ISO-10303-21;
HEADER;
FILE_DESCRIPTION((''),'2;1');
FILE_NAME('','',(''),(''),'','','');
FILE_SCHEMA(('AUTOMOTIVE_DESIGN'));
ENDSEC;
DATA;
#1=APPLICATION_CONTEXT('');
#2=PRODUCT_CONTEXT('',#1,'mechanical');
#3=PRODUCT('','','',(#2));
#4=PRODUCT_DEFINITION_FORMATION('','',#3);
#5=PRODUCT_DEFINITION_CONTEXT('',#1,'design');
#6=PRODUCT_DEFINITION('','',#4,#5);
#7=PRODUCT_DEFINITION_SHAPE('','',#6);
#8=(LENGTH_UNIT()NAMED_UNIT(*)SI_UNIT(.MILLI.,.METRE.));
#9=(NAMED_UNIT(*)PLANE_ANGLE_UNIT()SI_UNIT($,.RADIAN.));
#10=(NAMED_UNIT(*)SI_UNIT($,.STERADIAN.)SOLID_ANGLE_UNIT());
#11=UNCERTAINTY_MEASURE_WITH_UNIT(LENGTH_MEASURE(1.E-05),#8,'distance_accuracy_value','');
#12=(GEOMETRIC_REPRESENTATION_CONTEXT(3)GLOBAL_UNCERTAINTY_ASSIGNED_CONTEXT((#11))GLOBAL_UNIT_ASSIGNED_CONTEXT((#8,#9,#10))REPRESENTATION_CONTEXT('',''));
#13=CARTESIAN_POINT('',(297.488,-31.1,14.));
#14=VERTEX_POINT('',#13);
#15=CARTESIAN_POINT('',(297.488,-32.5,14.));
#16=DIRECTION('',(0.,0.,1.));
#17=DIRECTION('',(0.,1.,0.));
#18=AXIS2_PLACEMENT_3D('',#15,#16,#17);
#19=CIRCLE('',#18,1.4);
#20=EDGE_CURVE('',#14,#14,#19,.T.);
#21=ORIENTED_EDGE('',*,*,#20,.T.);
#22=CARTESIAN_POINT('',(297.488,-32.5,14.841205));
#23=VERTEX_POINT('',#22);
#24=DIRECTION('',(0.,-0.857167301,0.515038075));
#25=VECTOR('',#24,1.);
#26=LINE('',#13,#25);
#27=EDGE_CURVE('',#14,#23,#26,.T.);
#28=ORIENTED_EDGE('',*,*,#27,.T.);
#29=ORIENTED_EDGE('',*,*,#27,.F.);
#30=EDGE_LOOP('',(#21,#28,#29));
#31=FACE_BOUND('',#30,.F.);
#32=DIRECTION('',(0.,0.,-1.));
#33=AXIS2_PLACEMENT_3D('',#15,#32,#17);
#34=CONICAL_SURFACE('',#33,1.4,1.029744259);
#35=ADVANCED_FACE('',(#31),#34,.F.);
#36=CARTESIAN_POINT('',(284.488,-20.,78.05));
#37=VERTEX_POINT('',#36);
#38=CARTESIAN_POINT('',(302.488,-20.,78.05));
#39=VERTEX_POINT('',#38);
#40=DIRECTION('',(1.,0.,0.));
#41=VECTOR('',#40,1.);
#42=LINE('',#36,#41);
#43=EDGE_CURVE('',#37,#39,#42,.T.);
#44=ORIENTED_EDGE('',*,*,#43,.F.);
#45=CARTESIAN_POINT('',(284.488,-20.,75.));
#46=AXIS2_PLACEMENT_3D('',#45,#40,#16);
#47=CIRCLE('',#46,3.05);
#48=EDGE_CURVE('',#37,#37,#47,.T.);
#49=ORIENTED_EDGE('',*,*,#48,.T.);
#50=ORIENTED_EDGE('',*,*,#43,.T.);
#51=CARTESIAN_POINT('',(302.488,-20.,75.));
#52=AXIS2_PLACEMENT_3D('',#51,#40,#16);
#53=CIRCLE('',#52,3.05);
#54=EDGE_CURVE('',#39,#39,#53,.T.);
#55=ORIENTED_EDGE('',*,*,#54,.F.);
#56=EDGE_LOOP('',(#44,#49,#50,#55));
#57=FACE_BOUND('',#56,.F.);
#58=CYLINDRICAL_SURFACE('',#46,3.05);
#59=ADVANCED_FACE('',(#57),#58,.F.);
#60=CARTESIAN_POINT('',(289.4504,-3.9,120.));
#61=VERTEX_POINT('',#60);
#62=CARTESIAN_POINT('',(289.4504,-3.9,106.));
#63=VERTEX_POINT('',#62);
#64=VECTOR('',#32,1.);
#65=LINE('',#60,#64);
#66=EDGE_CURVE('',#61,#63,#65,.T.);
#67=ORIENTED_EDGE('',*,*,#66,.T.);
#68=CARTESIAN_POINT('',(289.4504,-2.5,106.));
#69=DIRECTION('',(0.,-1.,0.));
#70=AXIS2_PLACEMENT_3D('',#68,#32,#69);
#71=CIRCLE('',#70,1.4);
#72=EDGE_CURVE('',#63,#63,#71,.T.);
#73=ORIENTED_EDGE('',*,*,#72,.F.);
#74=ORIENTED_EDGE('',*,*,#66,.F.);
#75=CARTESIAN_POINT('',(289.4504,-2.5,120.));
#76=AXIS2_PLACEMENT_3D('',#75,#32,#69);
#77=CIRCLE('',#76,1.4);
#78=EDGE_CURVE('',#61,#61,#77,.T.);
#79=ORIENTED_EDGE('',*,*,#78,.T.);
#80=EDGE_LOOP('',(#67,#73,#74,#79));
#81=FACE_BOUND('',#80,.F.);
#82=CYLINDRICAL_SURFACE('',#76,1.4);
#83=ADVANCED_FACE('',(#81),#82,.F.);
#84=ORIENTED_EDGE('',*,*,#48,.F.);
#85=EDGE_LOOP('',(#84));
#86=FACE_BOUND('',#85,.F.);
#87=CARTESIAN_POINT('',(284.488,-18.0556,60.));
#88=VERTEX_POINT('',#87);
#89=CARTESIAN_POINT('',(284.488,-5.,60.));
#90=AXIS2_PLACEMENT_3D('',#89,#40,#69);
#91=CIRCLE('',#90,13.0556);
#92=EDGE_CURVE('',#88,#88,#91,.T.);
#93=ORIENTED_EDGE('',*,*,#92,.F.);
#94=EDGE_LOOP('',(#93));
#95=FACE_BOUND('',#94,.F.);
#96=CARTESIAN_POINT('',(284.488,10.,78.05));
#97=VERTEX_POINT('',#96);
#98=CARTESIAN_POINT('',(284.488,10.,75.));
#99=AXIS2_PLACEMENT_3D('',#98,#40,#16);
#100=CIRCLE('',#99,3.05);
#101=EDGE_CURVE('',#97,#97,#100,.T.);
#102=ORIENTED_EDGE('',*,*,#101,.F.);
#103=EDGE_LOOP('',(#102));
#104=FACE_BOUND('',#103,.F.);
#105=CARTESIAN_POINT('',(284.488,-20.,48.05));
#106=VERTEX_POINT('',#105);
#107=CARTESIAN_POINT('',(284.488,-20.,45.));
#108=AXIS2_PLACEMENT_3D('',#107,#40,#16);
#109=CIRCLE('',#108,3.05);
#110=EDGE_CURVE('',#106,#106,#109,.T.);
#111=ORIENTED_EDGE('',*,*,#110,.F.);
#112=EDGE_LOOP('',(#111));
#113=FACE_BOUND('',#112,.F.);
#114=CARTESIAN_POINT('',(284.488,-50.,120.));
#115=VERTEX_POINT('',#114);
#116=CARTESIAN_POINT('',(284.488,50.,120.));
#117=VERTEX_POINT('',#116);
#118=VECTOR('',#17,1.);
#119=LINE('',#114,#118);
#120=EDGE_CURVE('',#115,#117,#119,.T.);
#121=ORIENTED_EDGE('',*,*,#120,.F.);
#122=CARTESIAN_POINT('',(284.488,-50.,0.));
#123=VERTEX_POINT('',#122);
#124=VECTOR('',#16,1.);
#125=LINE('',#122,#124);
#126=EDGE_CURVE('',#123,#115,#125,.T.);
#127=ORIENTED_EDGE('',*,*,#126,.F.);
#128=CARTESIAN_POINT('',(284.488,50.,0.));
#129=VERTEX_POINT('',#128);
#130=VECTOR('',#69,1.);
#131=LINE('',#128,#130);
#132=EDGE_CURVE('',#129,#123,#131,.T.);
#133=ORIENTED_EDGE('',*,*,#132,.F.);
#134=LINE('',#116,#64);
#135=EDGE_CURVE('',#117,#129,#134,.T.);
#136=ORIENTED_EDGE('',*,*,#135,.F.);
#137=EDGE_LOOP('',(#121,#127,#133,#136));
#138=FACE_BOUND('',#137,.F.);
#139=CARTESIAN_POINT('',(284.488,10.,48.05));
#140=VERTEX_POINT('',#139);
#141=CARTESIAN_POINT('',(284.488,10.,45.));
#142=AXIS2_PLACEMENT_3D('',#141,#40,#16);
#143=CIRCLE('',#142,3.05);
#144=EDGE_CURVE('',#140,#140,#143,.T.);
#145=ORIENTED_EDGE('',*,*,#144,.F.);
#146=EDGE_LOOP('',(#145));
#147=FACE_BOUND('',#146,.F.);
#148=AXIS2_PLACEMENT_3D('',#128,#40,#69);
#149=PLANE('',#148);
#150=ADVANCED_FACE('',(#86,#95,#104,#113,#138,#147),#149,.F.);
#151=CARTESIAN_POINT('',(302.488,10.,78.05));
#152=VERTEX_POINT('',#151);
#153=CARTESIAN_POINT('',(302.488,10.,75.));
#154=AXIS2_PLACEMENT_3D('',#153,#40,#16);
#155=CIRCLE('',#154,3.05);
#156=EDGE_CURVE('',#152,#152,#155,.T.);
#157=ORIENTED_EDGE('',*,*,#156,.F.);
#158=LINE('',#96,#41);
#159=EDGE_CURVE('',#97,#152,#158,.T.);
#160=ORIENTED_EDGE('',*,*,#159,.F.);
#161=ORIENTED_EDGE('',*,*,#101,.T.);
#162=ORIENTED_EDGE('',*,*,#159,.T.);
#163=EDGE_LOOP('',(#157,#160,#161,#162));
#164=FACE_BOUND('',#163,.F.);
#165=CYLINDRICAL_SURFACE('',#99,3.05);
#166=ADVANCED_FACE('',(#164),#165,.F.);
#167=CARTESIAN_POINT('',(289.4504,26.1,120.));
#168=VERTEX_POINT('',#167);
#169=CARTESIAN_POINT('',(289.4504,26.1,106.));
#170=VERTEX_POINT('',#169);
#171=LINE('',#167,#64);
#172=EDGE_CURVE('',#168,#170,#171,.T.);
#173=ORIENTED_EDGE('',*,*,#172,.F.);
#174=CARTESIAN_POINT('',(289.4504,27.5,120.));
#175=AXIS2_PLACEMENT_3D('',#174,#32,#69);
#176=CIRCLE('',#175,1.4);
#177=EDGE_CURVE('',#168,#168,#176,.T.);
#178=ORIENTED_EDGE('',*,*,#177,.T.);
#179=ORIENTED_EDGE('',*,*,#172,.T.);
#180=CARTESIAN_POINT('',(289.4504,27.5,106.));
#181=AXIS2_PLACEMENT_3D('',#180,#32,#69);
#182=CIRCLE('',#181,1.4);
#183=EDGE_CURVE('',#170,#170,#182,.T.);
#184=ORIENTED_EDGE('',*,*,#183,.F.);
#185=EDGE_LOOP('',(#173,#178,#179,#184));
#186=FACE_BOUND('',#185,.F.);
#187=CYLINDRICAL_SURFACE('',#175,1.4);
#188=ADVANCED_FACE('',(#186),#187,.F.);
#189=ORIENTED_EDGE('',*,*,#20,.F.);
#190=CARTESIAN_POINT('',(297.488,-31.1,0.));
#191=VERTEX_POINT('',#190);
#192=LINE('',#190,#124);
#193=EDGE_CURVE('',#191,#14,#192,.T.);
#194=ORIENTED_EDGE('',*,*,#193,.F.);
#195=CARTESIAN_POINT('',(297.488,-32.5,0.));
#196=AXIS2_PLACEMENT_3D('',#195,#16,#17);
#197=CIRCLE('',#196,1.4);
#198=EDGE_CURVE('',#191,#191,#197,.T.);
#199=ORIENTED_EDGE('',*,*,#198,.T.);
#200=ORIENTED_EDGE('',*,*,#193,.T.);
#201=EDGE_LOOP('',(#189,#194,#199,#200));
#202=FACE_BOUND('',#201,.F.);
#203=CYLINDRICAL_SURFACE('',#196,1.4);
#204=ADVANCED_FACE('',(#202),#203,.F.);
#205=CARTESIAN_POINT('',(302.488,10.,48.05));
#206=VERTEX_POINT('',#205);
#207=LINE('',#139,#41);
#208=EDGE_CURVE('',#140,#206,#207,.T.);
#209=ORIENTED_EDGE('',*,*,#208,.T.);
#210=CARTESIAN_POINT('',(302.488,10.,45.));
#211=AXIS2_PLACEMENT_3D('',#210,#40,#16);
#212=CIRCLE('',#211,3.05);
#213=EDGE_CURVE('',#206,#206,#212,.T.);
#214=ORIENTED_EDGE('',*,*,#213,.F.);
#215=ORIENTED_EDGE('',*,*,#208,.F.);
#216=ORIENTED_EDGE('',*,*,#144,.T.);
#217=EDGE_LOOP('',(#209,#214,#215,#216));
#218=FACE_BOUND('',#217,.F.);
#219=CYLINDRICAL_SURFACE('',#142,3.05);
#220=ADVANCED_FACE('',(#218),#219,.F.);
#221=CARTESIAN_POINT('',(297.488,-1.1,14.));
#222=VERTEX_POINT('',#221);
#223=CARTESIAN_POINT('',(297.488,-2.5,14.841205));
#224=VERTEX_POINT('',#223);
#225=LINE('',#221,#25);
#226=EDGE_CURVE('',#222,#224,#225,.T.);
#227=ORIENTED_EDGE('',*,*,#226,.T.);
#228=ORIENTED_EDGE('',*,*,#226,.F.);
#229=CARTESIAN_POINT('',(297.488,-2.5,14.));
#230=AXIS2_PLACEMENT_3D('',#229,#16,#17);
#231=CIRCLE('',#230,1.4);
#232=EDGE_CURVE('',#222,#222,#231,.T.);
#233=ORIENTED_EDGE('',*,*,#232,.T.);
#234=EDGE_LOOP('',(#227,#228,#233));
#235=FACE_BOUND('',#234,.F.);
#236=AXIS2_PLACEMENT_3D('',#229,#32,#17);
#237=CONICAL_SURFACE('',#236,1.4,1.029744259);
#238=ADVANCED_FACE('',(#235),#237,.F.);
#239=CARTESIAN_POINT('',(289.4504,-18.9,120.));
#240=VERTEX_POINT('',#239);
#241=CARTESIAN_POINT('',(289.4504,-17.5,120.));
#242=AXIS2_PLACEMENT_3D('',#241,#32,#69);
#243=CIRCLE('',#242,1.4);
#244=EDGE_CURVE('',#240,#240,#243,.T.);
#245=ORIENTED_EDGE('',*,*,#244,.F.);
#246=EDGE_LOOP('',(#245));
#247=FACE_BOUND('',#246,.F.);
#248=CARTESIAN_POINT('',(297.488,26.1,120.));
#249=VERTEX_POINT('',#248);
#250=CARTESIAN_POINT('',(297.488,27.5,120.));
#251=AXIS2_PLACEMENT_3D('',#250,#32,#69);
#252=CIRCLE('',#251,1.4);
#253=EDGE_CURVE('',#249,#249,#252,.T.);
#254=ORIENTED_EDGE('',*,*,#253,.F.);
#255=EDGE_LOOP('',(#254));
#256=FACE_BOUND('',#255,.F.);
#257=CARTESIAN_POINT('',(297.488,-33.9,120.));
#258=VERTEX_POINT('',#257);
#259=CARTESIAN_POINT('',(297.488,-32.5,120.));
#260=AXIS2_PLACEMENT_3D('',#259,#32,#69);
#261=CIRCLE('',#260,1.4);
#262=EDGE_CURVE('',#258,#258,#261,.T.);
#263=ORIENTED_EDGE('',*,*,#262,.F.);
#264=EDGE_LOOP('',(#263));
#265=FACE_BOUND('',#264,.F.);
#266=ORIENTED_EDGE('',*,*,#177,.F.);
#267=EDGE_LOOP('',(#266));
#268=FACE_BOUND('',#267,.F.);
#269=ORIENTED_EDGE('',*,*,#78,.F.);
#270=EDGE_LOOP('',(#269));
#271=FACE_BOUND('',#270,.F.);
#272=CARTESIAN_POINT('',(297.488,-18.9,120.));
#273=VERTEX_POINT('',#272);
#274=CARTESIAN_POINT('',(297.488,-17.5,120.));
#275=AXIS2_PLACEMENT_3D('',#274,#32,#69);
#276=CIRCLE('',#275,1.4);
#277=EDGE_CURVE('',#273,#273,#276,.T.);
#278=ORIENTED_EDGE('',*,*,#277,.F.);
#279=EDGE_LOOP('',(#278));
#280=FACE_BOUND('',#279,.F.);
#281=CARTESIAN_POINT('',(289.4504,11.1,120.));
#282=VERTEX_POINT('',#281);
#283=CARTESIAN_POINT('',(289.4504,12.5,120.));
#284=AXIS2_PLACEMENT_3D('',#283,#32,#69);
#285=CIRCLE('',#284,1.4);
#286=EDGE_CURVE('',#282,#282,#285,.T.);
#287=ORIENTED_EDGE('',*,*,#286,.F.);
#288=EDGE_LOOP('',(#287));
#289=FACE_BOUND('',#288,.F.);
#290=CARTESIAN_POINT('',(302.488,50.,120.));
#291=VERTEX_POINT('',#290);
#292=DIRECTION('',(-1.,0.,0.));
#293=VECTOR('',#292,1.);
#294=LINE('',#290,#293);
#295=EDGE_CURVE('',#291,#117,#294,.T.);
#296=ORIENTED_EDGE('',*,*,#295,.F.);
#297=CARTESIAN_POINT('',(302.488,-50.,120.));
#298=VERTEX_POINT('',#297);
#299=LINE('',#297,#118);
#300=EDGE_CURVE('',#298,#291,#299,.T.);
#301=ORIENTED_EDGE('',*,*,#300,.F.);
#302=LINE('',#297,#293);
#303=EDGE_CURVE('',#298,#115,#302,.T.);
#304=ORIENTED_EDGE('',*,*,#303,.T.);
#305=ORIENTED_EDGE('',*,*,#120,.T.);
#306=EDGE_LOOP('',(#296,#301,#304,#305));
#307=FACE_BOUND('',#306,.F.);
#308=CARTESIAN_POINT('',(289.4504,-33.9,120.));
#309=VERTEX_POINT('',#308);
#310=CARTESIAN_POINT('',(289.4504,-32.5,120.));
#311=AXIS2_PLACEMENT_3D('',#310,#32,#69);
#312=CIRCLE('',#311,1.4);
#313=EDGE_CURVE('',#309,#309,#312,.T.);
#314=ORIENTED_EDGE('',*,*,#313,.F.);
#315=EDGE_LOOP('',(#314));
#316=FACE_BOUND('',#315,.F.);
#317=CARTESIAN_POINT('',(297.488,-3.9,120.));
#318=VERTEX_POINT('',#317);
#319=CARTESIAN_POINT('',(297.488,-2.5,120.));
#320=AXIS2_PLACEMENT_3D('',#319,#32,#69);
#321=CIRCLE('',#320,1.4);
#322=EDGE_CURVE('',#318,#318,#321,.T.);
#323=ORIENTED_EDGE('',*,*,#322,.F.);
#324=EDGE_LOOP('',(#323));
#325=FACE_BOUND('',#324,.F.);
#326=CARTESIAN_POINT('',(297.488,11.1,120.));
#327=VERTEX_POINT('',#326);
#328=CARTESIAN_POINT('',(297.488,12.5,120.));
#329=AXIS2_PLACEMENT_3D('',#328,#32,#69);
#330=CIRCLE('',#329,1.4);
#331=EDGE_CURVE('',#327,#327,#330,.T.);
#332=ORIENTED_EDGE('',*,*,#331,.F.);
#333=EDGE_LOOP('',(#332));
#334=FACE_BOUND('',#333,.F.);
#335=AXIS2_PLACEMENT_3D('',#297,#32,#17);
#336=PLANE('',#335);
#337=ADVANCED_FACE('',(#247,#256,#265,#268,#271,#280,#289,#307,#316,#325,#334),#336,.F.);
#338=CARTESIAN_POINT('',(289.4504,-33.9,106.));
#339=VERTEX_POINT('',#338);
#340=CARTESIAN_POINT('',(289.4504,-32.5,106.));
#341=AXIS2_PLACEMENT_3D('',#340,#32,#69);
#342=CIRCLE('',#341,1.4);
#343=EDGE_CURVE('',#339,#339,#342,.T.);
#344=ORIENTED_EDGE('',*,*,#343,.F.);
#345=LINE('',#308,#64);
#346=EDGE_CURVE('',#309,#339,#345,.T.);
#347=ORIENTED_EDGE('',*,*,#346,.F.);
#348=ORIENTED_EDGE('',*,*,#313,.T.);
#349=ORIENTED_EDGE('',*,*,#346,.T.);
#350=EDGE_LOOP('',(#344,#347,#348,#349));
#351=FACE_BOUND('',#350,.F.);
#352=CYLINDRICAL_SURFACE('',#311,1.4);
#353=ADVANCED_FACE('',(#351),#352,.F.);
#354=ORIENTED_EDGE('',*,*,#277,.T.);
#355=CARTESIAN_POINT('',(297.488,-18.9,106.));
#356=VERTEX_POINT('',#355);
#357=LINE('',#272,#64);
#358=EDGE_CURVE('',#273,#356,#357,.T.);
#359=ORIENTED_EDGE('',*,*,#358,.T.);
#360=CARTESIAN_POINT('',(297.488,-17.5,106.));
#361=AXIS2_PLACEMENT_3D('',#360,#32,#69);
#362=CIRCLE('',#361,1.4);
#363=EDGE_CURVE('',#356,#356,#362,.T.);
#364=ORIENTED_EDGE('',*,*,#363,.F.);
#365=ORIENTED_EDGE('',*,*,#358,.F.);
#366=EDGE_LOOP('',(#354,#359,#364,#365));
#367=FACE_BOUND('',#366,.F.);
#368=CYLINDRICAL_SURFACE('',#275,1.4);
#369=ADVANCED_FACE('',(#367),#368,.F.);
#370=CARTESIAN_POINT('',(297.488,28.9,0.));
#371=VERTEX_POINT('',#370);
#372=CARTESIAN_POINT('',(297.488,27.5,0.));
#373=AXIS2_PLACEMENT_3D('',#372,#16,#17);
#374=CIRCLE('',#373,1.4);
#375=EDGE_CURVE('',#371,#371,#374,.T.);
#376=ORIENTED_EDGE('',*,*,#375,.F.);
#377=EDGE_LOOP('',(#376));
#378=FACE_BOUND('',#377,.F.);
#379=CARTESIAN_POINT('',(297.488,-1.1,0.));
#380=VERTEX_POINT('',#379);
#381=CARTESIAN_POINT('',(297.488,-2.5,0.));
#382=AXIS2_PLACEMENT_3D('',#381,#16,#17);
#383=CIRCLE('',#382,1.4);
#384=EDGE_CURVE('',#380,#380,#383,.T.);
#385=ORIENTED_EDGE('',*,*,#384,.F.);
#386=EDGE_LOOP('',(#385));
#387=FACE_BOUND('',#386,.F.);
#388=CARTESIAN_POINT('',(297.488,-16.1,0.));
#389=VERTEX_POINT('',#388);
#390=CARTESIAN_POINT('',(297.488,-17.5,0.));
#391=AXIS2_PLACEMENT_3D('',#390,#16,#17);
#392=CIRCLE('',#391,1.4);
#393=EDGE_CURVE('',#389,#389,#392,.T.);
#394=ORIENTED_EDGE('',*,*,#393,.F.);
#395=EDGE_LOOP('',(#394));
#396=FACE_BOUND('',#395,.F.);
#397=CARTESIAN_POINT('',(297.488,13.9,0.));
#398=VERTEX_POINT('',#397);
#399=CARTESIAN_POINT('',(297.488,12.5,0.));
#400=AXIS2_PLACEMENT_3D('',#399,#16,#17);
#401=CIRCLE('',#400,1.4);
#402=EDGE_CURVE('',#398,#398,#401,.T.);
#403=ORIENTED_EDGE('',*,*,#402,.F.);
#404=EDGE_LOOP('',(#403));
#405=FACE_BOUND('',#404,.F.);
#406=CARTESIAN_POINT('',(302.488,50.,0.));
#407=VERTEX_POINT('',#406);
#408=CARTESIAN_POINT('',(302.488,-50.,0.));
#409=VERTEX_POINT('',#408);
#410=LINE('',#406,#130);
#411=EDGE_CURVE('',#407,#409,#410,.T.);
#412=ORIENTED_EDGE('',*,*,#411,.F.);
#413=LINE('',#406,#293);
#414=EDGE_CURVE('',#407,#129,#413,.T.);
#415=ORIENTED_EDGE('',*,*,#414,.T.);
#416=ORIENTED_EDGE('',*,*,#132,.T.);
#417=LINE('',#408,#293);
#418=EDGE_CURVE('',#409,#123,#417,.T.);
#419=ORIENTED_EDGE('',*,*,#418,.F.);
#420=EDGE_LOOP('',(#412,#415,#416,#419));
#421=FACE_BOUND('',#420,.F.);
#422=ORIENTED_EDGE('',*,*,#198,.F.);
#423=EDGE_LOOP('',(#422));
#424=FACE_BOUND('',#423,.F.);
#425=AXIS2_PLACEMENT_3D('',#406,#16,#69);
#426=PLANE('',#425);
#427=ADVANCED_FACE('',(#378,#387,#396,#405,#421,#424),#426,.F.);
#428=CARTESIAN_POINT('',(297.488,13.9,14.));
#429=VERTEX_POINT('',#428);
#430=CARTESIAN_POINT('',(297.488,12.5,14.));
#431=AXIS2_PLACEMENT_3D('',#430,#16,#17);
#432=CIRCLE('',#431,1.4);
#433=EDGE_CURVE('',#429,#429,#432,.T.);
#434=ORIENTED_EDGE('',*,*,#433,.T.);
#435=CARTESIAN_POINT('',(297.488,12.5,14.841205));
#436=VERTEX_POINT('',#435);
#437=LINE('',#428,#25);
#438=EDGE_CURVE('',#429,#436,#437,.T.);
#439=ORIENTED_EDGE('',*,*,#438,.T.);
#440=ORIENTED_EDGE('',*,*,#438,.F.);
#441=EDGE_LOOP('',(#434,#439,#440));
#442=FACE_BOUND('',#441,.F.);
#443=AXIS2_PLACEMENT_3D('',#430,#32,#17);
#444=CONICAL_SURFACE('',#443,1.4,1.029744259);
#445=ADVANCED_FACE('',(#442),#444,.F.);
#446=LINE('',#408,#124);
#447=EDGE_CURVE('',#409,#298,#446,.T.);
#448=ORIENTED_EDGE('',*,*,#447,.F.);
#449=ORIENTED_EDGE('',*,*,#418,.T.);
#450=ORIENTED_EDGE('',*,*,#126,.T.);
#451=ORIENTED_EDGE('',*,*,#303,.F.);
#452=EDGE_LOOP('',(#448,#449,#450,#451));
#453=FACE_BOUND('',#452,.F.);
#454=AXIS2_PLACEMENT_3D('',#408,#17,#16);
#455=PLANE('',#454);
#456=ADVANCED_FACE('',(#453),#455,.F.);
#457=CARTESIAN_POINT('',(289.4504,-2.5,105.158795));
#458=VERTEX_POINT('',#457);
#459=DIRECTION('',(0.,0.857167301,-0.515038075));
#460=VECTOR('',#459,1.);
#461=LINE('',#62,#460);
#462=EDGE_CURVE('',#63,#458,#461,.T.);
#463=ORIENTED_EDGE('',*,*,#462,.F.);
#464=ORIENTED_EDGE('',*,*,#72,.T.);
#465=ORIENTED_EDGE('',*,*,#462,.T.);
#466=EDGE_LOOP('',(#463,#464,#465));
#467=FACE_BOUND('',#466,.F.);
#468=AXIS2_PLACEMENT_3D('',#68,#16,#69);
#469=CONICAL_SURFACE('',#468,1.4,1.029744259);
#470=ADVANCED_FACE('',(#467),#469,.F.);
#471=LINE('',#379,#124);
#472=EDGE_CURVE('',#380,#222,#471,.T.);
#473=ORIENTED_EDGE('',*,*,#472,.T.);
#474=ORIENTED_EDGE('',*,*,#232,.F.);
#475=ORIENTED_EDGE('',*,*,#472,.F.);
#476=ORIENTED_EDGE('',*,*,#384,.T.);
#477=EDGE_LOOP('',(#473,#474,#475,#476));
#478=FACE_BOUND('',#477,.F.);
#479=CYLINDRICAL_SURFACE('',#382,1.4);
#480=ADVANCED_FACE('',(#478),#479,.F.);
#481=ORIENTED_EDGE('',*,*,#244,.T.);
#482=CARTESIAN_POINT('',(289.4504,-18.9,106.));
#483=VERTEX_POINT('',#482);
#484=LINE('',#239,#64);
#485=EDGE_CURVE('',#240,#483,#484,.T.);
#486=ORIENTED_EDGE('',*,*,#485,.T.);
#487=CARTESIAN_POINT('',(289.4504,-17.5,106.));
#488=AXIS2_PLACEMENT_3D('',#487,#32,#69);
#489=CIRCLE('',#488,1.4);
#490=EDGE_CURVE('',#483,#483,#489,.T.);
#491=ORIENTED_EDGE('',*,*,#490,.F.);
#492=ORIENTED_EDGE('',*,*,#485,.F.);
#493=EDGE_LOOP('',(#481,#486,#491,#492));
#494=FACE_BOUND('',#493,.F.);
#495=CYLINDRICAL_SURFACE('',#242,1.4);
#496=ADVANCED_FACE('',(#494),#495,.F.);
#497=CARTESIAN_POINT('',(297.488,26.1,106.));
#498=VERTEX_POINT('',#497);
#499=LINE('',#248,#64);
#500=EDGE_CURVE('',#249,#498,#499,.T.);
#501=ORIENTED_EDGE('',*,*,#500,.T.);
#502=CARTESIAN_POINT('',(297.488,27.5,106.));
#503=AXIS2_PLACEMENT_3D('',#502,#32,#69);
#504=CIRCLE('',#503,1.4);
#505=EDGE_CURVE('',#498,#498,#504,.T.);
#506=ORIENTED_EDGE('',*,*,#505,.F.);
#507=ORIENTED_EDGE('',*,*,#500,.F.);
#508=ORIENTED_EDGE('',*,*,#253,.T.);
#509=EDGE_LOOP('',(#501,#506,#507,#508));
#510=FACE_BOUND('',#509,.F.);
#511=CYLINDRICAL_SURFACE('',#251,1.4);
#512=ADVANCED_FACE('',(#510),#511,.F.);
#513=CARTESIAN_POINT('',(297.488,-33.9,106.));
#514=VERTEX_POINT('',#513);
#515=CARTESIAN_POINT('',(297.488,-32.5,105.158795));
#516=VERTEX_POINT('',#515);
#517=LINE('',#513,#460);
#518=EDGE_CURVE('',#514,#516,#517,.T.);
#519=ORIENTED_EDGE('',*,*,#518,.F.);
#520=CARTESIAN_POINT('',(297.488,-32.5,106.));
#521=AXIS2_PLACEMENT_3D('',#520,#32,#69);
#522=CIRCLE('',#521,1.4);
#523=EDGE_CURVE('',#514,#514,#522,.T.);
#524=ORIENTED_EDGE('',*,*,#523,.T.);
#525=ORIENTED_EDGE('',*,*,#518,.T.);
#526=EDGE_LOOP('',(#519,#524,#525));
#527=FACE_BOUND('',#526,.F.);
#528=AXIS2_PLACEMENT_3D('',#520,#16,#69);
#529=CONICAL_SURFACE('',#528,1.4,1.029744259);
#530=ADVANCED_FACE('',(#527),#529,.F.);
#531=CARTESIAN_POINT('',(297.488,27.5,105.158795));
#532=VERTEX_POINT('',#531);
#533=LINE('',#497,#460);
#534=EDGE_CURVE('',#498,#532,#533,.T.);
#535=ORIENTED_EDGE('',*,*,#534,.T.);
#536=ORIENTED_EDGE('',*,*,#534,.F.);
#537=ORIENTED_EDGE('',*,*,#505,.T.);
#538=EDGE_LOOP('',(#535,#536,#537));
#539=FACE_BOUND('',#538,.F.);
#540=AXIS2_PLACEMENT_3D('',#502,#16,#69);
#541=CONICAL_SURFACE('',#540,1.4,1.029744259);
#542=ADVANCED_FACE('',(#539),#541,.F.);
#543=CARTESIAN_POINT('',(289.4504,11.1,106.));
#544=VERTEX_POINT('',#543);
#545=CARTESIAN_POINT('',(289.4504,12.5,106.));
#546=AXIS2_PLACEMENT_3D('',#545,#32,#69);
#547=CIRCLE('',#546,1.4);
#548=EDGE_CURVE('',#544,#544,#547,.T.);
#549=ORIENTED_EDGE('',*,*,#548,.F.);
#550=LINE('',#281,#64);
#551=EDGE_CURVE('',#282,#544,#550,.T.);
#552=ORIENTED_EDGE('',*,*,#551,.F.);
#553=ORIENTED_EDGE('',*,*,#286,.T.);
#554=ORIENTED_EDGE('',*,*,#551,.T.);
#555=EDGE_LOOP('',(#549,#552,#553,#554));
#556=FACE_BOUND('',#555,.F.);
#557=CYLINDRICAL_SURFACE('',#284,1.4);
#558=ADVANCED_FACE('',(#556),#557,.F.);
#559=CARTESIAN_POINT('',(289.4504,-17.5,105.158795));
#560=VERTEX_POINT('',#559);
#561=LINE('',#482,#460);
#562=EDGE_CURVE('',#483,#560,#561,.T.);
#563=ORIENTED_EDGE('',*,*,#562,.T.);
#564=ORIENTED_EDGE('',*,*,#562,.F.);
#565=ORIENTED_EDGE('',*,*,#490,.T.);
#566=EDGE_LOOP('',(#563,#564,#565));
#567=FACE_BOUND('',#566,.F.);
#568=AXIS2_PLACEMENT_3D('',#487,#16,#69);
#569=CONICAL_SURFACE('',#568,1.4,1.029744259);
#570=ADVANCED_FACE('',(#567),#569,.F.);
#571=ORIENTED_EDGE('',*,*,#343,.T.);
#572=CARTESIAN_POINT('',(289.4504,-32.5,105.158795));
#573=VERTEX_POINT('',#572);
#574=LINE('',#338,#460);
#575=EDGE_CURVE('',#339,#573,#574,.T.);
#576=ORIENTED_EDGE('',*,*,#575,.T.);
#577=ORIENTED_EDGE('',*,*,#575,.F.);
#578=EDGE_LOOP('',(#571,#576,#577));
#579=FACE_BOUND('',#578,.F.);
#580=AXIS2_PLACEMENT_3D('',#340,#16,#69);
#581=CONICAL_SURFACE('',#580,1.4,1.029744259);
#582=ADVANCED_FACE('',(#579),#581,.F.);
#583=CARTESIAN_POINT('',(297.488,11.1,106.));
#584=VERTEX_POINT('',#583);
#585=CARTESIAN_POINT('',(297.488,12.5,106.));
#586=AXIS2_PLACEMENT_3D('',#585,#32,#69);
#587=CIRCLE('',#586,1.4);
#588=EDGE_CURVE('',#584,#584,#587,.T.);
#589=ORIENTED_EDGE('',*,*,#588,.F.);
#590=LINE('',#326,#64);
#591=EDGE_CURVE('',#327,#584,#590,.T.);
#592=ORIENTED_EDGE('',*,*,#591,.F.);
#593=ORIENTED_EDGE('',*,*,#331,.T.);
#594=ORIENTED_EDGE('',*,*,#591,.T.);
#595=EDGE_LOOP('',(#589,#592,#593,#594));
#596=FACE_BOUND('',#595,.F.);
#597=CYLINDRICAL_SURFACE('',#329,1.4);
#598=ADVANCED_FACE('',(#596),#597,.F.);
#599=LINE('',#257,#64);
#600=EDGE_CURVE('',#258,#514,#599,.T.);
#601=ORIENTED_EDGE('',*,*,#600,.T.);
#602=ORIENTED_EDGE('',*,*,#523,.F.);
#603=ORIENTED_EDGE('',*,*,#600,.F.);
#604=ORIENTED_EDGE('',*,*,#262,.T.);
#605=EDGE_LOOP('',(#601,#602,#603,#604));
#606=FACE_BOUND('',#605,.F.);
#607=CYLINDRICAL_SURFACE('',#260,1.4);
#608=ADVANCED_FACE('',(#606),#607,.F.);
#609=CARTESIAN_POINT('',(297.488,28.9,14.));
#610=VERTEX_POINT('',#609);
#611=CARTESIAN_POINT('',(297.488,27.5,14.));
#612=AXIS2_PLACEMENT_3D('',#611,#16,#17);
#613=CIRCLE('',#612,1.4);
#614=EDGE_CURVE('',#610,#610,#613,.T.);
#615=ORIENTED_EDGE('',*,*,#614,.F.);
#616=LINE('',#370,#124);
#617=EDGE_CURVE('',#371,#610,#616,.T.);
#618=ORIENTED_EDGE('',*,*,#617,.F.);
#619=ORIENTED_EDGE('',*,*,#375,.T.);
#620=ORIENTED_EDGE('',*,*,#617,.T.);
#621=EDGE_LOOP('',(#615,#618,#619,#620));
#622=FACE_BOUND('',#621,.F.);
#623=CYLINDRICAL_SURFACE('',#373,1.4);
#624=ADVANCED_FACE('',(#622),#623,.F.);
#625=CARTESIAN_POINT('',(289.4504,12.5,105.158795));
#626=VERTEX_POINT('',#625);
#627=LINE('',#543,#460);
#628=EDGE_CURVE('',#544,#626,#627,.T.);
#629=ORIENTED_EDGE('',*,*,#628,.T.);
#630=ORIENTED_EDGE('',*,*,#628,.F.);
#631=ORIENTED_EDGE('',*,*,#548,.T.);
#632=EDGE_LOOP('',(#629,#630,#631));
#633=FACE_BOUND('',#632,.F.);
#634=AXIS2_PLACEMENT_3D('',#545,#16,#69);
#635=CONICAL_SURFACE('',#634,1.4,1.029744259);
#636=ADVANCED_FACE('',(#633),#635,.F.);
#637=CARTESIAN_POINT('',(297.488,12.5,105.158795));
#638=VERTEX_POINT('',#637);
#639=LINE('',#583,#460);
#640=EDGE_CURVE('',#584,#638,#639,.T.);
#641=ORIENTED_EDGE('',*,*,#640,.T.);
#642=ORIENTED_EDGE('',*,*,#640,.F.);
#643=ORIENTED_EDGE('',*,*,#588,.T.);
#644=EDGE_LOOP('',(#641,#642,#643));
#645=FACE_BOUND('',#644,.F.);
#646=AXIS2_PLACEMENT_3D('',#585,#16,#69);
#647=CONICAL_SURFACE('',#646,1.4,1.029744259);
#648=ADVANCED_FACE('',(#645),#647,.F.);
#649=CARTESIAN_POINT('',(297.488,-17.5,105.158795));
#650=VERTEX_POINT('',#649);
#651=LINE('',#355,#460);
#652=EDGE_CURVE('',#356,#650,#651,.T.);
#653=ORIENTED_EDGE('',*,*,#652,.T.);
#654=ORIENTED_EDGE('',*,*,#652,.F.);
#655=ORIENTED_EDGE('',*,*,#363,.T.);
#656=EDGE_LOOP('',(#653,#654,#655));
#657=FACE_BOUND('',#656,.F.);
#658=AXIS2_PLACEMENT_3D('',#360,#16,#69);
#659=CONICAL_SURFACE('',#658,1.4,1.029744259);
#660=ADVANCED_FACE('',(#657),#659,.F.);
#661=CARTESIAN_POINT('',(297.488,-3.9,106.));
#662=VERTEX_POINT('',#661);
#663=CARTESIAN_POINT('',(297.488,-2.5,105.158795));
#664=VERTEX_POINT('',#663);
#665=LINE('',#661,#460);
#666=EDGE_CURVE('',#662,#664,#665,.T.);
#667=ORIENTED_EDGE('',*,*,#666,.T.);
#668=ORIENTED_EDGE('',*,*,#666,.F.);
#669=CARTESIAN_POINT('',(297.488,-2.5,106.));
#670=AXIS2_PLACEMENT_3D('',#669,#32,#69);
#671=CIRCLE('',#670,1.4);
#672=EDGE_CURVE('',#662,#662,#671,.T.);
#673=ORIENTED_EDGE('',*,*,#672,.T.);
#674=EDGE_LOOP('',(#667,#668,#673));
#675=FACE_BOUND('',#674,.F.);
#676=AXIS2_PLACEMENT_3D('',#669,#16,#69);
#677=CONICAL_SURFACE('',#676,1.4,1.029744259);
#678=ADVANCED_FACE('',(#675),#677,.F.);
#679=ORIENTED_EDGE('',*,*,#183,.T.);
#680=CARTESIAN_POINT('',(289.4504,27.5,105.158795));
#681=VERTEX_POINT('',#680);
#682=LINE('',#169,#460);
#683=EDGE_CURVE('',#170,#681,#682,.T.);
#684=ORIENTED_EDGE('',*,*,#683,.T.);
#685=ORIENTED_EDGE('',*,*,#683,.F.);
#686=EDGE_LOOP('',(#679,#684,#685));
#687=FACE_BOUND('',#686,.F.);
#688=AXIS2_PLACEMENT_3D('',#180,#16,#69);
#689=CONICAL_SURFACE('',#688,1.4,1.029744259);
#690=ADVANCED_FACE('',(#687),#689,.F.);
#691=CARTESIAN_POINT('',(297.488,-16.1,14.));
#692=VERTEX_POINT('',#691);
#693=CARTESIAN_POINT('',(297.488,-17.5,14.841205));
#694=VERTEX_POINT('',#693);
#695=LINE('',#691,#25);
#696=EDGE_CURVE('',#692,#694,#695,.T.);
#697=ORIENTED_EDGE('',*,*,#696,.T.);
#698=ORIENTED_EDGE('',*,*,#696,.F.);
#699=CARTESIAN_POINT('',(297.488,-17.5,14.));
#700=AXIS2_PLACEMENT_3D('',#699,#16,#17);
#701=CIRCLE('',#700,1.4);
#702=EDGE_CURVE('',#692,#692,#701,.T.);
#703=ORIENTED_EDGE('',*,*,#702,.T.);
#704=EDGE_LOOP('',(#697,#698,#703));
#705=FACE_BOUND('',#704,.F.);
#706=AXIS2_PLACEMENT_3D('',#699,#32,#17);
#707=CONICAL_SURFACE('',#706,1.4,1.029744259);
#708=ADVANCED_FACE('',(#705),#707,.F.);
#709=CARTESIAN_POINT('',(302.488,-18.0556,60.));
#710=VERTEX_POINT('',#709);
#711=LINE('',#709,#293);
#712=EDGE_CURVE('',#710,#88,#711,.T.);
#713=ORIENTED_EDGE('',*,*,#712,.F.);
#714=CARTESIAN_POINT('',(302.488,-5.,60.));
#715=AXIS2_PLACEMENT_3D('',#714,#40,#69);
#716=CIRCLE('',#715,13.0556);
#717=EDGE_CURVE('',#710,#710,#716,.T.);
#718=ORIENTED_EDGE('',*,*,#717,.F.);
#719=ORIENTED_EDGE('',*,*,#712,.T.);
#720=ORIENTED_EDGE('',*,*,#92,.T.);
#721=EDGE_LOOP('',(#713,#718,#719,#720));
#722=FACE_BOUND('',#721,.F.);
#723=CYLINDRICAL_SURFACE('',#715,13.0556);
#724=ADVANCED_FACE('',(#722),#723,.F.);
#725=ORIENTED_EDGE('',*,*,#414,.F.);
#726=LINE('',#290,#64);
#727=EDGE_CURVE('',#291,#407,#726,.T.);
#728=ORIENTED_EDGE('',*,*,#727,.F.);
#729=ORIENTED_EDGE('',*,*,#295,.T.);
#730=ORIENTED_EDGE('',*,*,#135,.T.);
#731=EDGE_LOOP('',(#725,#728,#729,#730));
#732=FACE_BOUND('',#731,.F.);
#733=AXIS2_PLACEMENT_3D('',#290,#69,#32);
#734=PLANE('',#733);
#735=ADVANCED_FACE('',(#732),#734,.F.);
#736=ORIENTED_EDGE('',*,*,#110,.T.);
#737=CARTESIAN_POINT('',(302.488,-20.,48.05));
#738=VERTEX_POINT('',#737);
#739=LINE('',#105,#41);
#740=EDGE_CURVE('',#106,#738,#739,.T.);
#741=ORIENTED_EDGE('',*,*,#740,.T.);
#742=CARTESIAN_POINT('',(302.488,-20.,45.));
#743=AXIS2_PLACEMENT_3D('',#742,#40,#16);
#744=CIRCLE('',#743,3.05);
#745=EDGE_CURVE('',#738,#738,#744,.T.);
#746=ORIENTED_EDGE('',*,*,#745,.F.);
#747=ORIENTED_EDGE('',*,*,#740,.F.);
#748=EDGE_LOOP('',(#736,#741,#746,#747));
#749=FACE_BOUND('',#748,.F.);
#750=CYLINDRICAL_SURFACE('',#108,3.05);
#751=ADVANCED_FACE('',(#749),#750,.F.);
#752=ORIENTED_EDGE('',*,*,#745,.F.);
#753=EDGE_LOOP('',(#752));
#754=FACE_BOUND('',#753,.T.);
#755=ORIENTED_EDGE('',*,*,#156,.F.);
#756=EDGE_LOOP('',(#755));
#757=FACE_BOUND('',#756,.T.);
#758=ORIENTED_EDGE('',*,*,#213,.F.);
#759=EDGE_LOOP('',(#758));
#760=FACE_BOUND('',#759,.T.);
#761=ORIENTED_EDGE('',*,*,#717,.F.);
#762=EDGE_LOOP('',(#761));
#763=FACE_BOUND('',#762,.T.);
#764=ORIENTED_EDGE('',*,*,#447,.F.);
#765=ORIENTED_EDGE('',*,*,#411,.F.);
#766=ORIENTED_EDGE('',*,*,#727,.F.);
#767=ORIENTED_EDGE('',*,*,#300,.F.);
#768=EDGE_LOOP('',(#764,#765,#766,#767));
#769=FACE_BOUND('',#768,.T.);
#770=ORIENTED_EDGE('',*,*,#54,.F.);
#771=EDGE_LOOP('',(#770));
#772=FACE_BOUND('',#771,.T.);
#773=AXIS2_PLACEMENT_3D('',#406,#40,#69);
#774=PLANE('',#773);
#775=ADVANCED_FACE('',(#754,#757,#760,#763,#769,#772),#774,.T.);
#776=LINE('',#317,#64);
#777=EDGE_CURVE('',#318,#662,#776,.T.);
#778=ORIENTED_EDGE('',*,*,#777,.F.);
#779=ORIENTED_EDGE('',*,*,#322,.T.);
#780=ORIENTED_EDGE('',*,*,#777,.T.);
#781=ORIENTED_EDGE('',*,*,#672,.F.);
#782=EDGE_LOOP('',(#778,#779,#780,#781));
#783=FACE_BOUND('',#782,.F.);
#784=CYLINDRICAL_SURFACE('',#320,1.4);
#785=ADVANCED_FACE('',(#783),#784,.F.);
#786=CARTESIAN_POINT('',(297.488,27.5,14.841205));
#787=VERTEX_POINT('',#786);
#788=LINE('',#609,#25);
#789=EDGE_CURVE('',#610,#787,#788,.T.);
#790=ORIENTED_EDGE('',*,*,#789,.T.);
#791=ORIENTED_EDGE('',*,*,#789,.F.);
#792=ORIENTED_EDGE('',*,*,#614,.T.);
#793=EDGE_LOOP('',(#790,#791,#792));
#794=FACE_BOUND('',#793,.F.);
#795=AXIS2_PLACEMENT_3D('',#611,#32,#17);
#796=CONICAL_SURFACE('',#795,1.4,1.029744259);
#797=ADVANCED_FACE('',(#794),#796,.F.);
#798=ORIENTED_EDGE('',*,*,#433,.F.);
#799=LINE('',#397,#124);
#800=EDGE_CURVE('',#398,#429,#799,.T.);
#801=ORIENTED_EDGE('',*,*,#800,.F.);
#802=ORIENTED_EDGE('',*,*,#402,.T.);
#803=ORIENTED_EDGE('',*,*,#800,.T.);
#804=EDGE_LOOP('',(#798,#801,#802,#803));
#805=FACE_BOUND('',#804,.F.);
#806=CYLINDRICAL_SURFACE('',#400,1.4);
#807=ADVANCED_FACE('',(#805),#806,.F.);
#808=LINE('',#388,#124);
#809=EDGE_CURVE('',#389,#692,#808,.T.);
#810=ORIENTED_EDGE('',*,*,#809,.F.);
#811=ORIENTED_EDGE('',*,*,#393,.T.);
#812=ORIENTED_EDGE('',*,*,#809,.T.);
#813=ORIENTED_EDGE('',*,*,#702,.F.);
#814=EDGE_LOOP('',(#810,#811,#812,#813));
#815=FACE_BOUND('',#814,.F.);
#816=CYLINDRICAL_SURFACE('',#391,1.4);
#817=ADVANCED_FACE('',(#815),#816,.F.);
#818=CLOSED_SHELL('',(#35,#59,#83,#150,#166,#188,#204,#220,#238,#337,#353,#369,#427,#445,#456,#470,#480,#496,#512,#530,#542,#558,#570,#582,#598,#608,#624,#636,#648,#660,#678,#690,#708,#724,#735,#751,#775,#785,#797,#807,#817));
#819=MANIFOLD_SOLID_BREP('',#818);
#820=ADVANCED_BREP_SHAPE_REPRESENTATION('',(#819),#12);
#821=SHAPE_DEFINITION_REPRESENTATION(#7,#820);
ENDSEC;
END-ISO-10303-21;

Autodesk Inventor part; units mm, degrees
ref_plane "YZ Plane" through (0, 0, 0) normal (1, 0, 0) x (0, 1, 0)
ref_plane "XZ Plane" through (0, 0, 0) normal (0, 1, 0) x (-1, 0, 0)
ref_plane "XY Plane" through (0, 0, 0) normal (0, 0, 1) x (1, 0, 0)
ref_plane "Arbeitsebene1" through (302.488, 50, 0) normal (1, 0, 0) x (0, -1, 0)
sketch "Skizze1" plane through (302.488, 50, 0) normal (1, 0, 0) x (0, -1, 0)
  line L0 (100, -120) -> (0, -120) projected
  line L1 (0, 0) -> (100, 0) projected
  line L2 (100, -120) -> (0, -120)
  line L3 (0, -120) -> (0, 0)
  line L4 (0, 0) -> (100, 0)
  line L5 (100, 0) -> (100, -120)
  circle A0 centre (55, -60) radius 13.0556 projected
  point P0 (50, 0)
extrude "Extrusion1" add sketch "Skizze1" against normal blind 18
sketch "Skizze2" plane through (302.488, -50, 0) normal (0, 0, -1) x (-1, 0, 0)
  circle A0 centre (186.5, 89.5) radius 1.5 projected
  circle A1 centre (100.8, 89.5) radius 1.5 projected
  circle A2 centre (139.4003, 16.8597) radius 1.55 projected
  line L0 (398.9827, 14) -> (394.9827, 14) projected
  line L1 (394.9827, 14) -> (394.9827, 79) projected
  line L2 (394.9827, 79) -> (398.9827, 79) projected
  line L3 (398.9827, 79) -> (398.9827, 14) projected
  line L4 (252.25, 9) -> (252.25, 11.4) projected
  line L5 (252.25, 11.4) -> (257.75, 11.4) projected
  line L6 (257.75, 11.4) -> (257.75, 9) projected
  line L7 (257.75, 9) -> (252.25, 9) projected
  line L8 (457.75, 11.4) -> (457.75, 9) projected
  line L9 (457.75, 9) -> (452.25, 9) projected
  line L10 (452.25, 9) -> (452.25, 11.4) projected
  line L11 (452.25, 11.4) -> (457.75, 11.4) projected
  line L12 (57.75, 9) -> (52.25, 9) projected
  line L13 (52.25, 9) -> (52.25, 11.4) projected
  line L14 (52.25, 11.4) -> (57.75, 11.4) projected
  line L15 (57.75, 11.4) -> (57.75, 9) projected
  line L16 (352.25, 9) -> (352.25, 11.4) projected
  line L17 (352.25, 11.4) -> (357.75, 11.4) projected
  line L18 (357.75, 11.4) -> (357.75, 9) projected
  line L19 (357.75, 9) -> (352.25, 9) projected
  line L20 (157.75, 9) -> (152.25, 9) projected
  line L21 (152.25, 9) -> (152.25, 11.4) projected
  line L22 (152.25, 11.4) -> (157.75, 11.4) projected
  line L23 (157.75, 11.4) -> (157.75, 9) projected
  line L24 (257.75, 91) -> (257.75, 88.6) projected
  line L25 (257.75, 88.6) -> (252.25, 88.6) projected
  line L26 (252.25, 88.6) -> (252.25, 91) projected
  line L27 (252.25, 91) -> (257.75, 91) projected
  line L28 (157.75, 91) -> (157.75, 88.6) projected
  line L29 (157.75, 88.6) -> (152.25, 88.6) projected
  line L30 (152.25, 88.6) -> (152.25, 91) projected
  line L31 (152.25, 91) -> (157.75, 91) projected
  line L32 (357.75, 91) -> (357.75, 88.6) projected
  line L33 (357.75, 88.6) -> (352.25, 88.6) projected
  line L34 (352.25, 88.6) -> (352.25, 91) projected
  line L35 (352.25, 91) -> (357.75, 91) projected
  line L36 (57.75, 91) -> (57.75, 88.6) projected
  line L37 (57.75, 88.6) -> (52.25, 88.6) projected
  line L38 (52.25, 88.6) -> (52.25, 91) projected
  line L39 (52.25, 91) -> (57.75, 91) projected
  line L40 (452.25, 88.6) -> (452.25, 91) projected
  line L41 (452.25, 91) -> (457.75, 91) projected
  line L42 (457.75, 91) -> (457.75, 88.6) projected
  line L43 (457.75, 88.6) -> (452.25, 88.6) projected
  line L44 (449.9, 0) -> (449.9, 6) projected
  line L45 (449.9, 6) -> (460.1, 6) projected
  line L46 (460.1, 6) -> (460.1, 0) projected
  line L47 (460.1, 0) -> (490, 0) projected
  line L48 (490, 0) -> (490, 94) projected
  line L49 (490, 94) -> (470, 94) projected
  line L50 (470, 94) -> (470, 100) projected
  line L51 (470, 100) -> (460.1, 100) projected
  line L52 (460.1, 100) -> (460.1, 94) projected
  line L53 (460.1, 94) -> (449.9, 94) projected
  line L54 (449.9, 94) -> (449.9, 100) projected
  line L55 (449.9, 100) -> (440.1, 100) projected
  line L56 (440.1, 100) -> (440.1, 94) projected
  line L57 (440.1, 94) -> (429.9, 94) projected
  line L58 (429.9, 94) -> (429.9, 100) projected
  line L59 (429.9, 100) -> (420.1, 100) projected
  line L60 (420.1, 100) -> (420.1, 94) projected
  line L61 (420.1, 94) -> (409.9, 94) projected
  line L62 (409.9, 94) -> (409.9, 100) projected
  line L63 (409.9, 100) -> (400.1, 100) projected
  line L64 (400.1, 100) -> (400.1, 94) projected
  line L65 (400.1, 94) -> (389.9, 94) projected
  line L66 (389.9, 94) -> (389.9, 100) projected
  line L67 (389.9, 100) -> (380.1, 100) projected
  line L68 (380.1, 100) -> (380.1, 94) projected
  line L69 (380.1, 94) -> (369.9, 94) projected
  line L70 (369.9, 94) -> (369.9, 100) projected
  line L71 (369.9, 100) -> (360.1, 100) projected
  line L72 (360.1, 100) -> (360.1, 94) projected
  line L73 (360.1, 94) -> (349.9, 94) projected
  line L74 (349.9, 94) -> (349.9, 100) projected
  line L75 (349.9, 100) -> (340.1, 100) projected
  line L76 (340.1, 100) -> (340.1, 94) projected
  line L77 (340.1, 94) -> (329.9, 94) projected
  line L78 (329.9, 94) -> (329.9, 100) projected
  line L79 (329.9, 100) -> (320.1, 100) projected
  line L80 (320.1, 100) -> (320.1, 94) projected
  line L81 (320.1, 94) -> (309.9, 94) projected
  line L82 (309.9, 94) -> (309.9, 100) projected
  line L83 (309.9, 100) -> (300.1, 100) projected
  line L84 (300.1, 100) -> (300.1, 94) projected
  line L85 (300.1, 94) -> (289.9, 94) projected
  line L86 (289.9, 94) -> (289.9, 100) projected
  line L87 (289.9, 100) -> (280.1, 100) projected
  line L88 (280.1, 100) -> (280.1, 94) projected
  line L89 (280.1, 94) -> (269.9, 94) projected
  line L90 (269.9, 94) -> (269.9, 100) projected
  line L91 (269.9, 100) -> (260.1, 100) projected
  line L92 (260.1, 100) -> (260.1, 94) projected
  line L93 (260.1, 94) -> (249.9, 94) projected
  line L94 (249.9, 94) -> (249.9, 100) projected
  line L95 (249.9, 100) -> (240.1, 100) projected
  line L96 (240.1, 100) -> (240.1, 94) projected
  line L97 (240.1, 94) -> (229.9, 94) projected
  line L98 (229.9, 94) -> (229.9, 100) projected
  line L99 (229.9, 100) -> (220.1, 100) projected
  line L100 (220.1, 100) -> (220.1, 94) projected
  line L101 (220.1, 94) -> (209.9, 94) projected
  line L102 (209.9, 94) -> (209.9, 100) projected
  line L103 (209.9, 100) -> (200.1, 100) projected
  line L104 (200.1, 100) -> (200.1, 94) projected
  line L105 (200.1, 94) -> (189.9, 94) projected
  line L106 (189.9, 94) -> (189.9, 100) projected
  line L107 (189.9, 100) -> (180.1, 100) projected
  line L108 (180.1, 100) -> (180.1, 94) projected
  line L109 (180.1, 94) -> (169.9, 94) projected
  line L110 (169.9, 94) -> (169.9, 100) projected
  line L111 (169.9, 100) -> (160.1, 100) projected
  line L112 (160.1, 100) -> (160.1, 94) projected
  line L113 (160.1, 94) -> (149.9, 94) projected
  line L114 (149.9, 94) -> (149.9, 100) projected
  line L115 (149.9, 100) -> (140.1, 100) projected
  line L116 (140.1, 100) -> (140.1, 94) projected
  line L117 (140.1, 94) -> (129.9, 94) projected
  line L118 (129.9, 94) -> (129.9, 100) projected
  line L119 (129.9, 100) -> (120.1, 100) projected
  line L120 (120.1, 100) -> (120.1, 94) projected
  line L121 (120.1, 94) -> (109.9, 94) projected
  line L122 (109.9, 94) -> (109.9, 100) projected
  line L123 (109.9, 100) -> (100.1, 100) projected
  line L124 (100.1, 100) -> (100.1, 94) projected
  line L125 (100.1, 94) -> (89.9, 94) projected
  line L126 (89.9, 94) -> (89.9, 100) projected
  line L127 (89.9, 100) -> (80.1, 100) projected
  line L128 (80.1, 100) -> (80.1, 94) projected
  line L129 (80.1, 94) -> (69.9, 94) projected
  line L130 (69.9, 94) -> (69.9, 100) projected
  line L131 (69.9, 100) -> (60.1, 100) projected
  line L132 (60.1, 100) -> (60.1, 94) projected
  line L133 (60.1, 94) -> (49.9, 94) projected
  line L134 (49.9, 94) -> (49.9, 100) projected
  line L135 (49.9, 100) -> (0, 100) projected
  line L136 (0, 100) -> (0, 0) projected
  line L137 (0, 0) -> (49.9, 0) projected
  line L138 (49.9, 0) -> (49.9, 6) projected
  line L139 (49.9, 6) -> (60.1, 6) projected
  line L140 (60.1, 6) -> (60.1, 0) projected
  line L141 (60.1, 0) -> (69.9, 0) projected
  line L142 (69.9, 0) -> (69.9, 6) projected
  line L143 (69.9, 6) -> (80.1, 6) projected
  line L144 (80.1, 6) -> (80.1, 0) projected
  line L145 (80.1, 0) -> (89.9, 0) projected
  line L146 (89.9, 0) -> (89.9, 6) projected
  line L147 (89.9, 6) -> (100.1, 6) projected
  line L148 (100.1, 6) -> (100.1, 0) projected
  line L149 (100.1, 0) -> (109.9, 0) projected
  line L150 (109.9, 0) -> (109.9, 6) projected
  line L151 (109.9, 6) -> (120.1, 6) projected
  line L152 (120.1, 6) -> (120.1, 0) projected
  line L153 (120.1, 0) -> (129.9, 0) projected
  line L154 (129.9, 0) -> (129.9, 6) projected
  line L155 (129.9, 6) -> (140.1, 6) projected
  line L156 (140.1, 6) -> (140.1, 0) projected
  line L157 (140.1, 0) -> (149.9, 0) projected
  line L158 (149.9, 0) -> (149.9, 6) projected
  line L159 (149.9, 6) -> (160.1, 6) projected
  line L160 (160.1, 6) -> (160.1, 0) projected
  line L161 (160.1, 0) -> (169.9, 0) projected
  line L162 (169.9, 0) -> (169.9, 6) projected
  line L163 (169.9, 6) -> (180.1, 6) projected
  line L164 (180.1, 6) -> (180.1, 0) projected
  line L165 (180.1, 0) -> (189.9, 0) projected
  line L166 (189.9, 0) -> (189.9, 6) projected
  line L167 (189.9, 6) -> (200.1, 6) projected
  line L168 (200.1, 6) -> (200.1, 0) projected
  line L169 (200.1, 0) -> (209.9, 0) projected
  line L170 (209.9, 0) -> (209.9, 6) projected
  line L171 (209.9, 6) -> (220.1, 6) projected
  line L172 (220.1, 6) -> (220.1, 0) projected
  line L173 (220.1, 0) -> (229.9, 0) projected
  line L174 (229.9, 0) -> (229.9, 6) projected
  line L175 (229.9, 6) -> (240.1, 6) projected
  line L176 (240.1, 6) -> (240.1, 0) projected
  line L177 (240.1, 0) -> (249.9, 0) projected
  line L178 (249.9, 0) -> (249.9, 6) projected
  line L179 (249.9, 6) -> (260.1, 6) projected
  line L180 (260.1, 6) -> (260.1, 0) projected
  line L181 (260.1, 0) -> (269.9, 0) projected
  line L182 (269.9, 0) -> (269.9, 6) projected
  line L183 (269.9, 6) -> (280.1, 6) projected
  line L184 (280.1, 6) -> (280.1, 0) projected
  line L185 (280.1, 0) -> (289.9, 0) projected
  line L186 (289.9, 0) -> (289.9, 6) projected
  line L187 (289.9, 6) -> (300.1, 6) projected
  line L188 (300.1, 6) -> (300.1, 0) projected
  line L189 (300.1, 0) -> (309.9, 0) projected
  line L190 (309.9, 0) -> (309.9, 6) projected
  line L191 (309.9, 6) -> (320.1, 6) projected
  line L192 (320.1, 6) -> (320.1, 0) projected
  line L193 (320.1, 0) -> (329.9, 0) projected
  line L194 (329.9, 0) -> (329.9, 6) projected
  line L195 (329.9, 6) -> (340.1, 6) projected
  line L196 (340.1, 6) -> (340.1, 0) projected
  line L197 (340.1, 0) -> (349.9, 0) projected
  line L198 (349.9, 0) -> (349.9, 6) projected
  line L199 (349.9, 6) -> (360.1, 6) projected
  line L200 (360.1, 6) -> (360.1, 0) projected
  line L201 (360.1, 0) -> (369.9, 0) projected
  line L202 (369.9, 0) -> (369.9, 6) projected
  line L203 (369.9, 6) -> (380.1, 6) projected
  line L204 (380.1, 6) -> (380.1, 0) projected
  line L205 (380.1, 0) -> (389.9, 0) projected
  line L206 (389.9, 0) -> (389.9, 6) projected
  line L207 (389.9, 6) -> (400.1, 6) projected
  line L208 (400.1, 6) -> (400.1, 0) projected
  line L209 (400.1, 0) -> (409.9, 0) projected
  line L210 (409.9, 0) -> (409.9, 6) projected
  line L211 (409.9, 6) -> (420.1, 6) projected
  line L212 (420.1, 6) -> (420.1, 0) projected
  line L213 (420.1, 0) -> (429.9, 0) projected
  line L214 (429.9, 0) -> (429.9, 6) projected
  line L215 (429.9, 6) -> (440.1, 6) projected
  line L216 (440.1, 6) -> (440.1, 0) projected
  line L217 (440.1, 0) -> (449.9, 0) projected
  circle A3 centre (5, 47.5) radius 1.6 projected
  circle A4 centre (5, 62.5) radius 1.6 projected
  circle A5 centre (5, 32.5) radius 1.6 projected
  circle A6 centre (5, 77.5) radius 1.6 projected
  circle A7 centre (5, 17.5) radius 1.6 projected
  point P0 (302.488, 50)
hole "Bohrung1" at (297.488, -32.5, 0) at (297.488, -17.5, 0) at (297.488, -2.5, 0) at (297.488, 12.5, 0) at (297.488, 27.5, 0) direction (0, 0, 1) diameter 2.8 depth 14 tip angle 118
sketch "Skizze3" plane through (302.488, -50, 120) normal (0, 0, 1) x (1, 0, 0)
  circle A0 centre (-13.0375, 47.5) radius 1.6 projected
  circle A1 centre (-13.0375, 62.5) radius 1.6 projected
  circle A2 centre (-13.0375, 32.5) radius 1.6 projected
  circle A3 centre (-13.0375, 77.5) radius 1.6 projected
  circle A4 centre (-13.0375, 17.5) radius 1.6 projected
  line L0 (-97.75, 88.6) -> (-97.75, 91) projected
  line L1 (-97.75, 91) -> (-92.25, 91) projected
  line L2 (-92.25, 91) -> (-92.25, 88.6) projected
  line L3 (-92.25, 88.6) -> (-97.75, 88.6) projected
  line L4 (-57.75, 88.6) -> (-57.75, 91) projected
  line L5 (-57.75, 91) -> (-52.25, 91) projected
  line L6 (-52.25, 91) -> (-52.25, 88.6) projected
  line L7 (-52.25, 88.6) -> (-57.75, 88.6) projected
  line L8 (-100.2875, 11.4) -> (-100.2875, 9) projected
  line L9 (-100.2875, 9) -> (-105.7875, 9) projected
  line L10 (-105.7875, 9) -> (-105.7875, 11.4) projected
  line L11 (-105.7875, 11.4) -> (-100.2875, 11.4) projected
  line L12 (-25.7875, 9) -> (-25.7875, 11.4) projected
  line L13 (-25.7875, 11.4) -> (-20.2875, 11.4) projected
  line L14 (-20.2875, 11.4) -> (-20.2875, 9) projected
  line L15 (-20.2875, 9) -> (-25.7875, 9) projected
  line L16 (-123.0375, 8) -> (-122.8375, 8) projected
  line L17 (-122.8375, 8) -> (-122.8375, 6) projected
  line L18 (-122.8375, 6) -> (-123.0375, 6) projected
  line L19 (-123.0375, 6) -> (-123.0375, 3.8071) projected
  line L20 (-123.0375, 3.8071) -> (-120.1, 6) projected
  line L21 (-120.1, 6) -> (-109.9, 6) projected
  line L22 (-109.9, 6) -> (-117.9375, 0) projected
  line L23 (-117.9375, 0) -> (-108.1375, 0) projected
  line L24 (-108.1375, 0) -> (-100.1, 6) projected
  line L25 (-100.1, 6) -> (-89.9, 6) projected
  line L26 (-89.9, 6) -> (-97.9375, 0) projected
  line L27 (-97.9375, 0) -> (-88.1375, 0) projected
  line L28 (-88.1375, 0) -> (-80.1, 6) projected
  line L29 (-80.1, 6) -> (-69.9, 6) projected
  line L30 (-69.9, 6) -> (-77.9375, 0) projected
  line L31 (-77.9375, 0) -> (-68.1375, 0) projected
  line L32 (-68.1375, 0) -> (-60.1, 6) projected
  line L33 (-60.1, 6) -> (-49.9, 6) projected
  line L34 (-49.9, 6) -> (-57.9375, 0) projected
  line L35 (-57.9375, 0) -> (-48.1375, 0) projected
  line L36 (-48.1375, 0) -> (-40.1, 6) projected
  line L37 (-40.1, 6) -> (-29.9, 6) projected
  line L38 (-29.9, 6) -> (-37.9375, 0) projected
  line L39 (-37.9375, 0) -> (-28.1375, 0) projected
  line L40 (-28.1375, 0) -> (-20.1, 6) projected
  line L41 (-20.1, 6) -> (-9.9, 6) projected
  line L42 (-9.9, 6) -> (-17.9375, 0) projected
  line L43 (-17.9375, 0) -> (-8.0375, 0) projected
  line L44 (-8.0375, 0) -> (-8.0375, 100) projected
  line L45 (-8.0375, 100) -> (-49.9, 100) projected
  line L46 (-49.9, 100) -> (-49.9, 94) projected
  line L47 (-49.9, 94) -> (-60.1, 94) projected
  line L48 (-60.1, 94) -> (-60.1, 100) projected
  line L49 (-60.1, 100) -> (-69.9, 100) projected
  line L50 (-69.9, 100) -> (-69.9, 94) projected
  line L51 (-69.9, 94) -> (-80.1, 94) projected
  line L52 (-80.1, 94) -> (-80.1, 100) projected
  line L53 (-80.1, 100) -> (-89.9, 100) projected
  line L54 (-89.9, 100) -> (-89.9, 94) projected
  line L55 (-89.9, 94) -> (-100.1, 94) projected
  line L56 (-100.1, 94) -> (-100.1, 100) projected
  line L57 (-100.1, 100) -> (-110, 100) projected
  line L58 (-110, 100) -> (-110, 94) projected
  line L59 (-110, 94) -> (-115, 94) projected
  line L60 (-115, 94) -> (-115, 100) projected
  line L61 (-115, 100) -> (-123.0375, 100) projected
  line L62 (-123.0375, 100) -> (-123.0375, 8) projected
  circle A5 centre (-5, 77.5) radius 1.4 projected
  circle A6 centre (-5, 62.5) radius 1.4 projected
  circle A7 centre (-5, 47.5) radius 1.4 projected
  circle A8 centre (-5, 32.5) radius 1.4 projected
  circle A9 centre (-5, 17.5) radius 1.4 projected
  line L63 (0, 0) -> (0, 100) projected
  line L64 (0, 0) -> (-18, 0) projected
  line L65 (-18, 100) -> (-18, 0) projected
  line L66 (0, 100) -> (-18, 100) projected
  point P0 (-302.488, 50)
hole "Bohrung2" at (289.4504, 27.5, 120) at (289.4504, 12.5, 120) at (289.4504, -2.5, 120) at (289.4504, -17.5, 120) at (289.4504, -32.5, 120) at (297.488, -32.5, 120) at (297.488, -17.5, 120) at (297.488, -2.5, 120) at (297.488, 12.5, 120) at (297.488, 27.5, 120) direction (0, 0, -1) diameter 2.8 depth 14 tip angle 118
sketch "Skizze4" plane through (284.488, 50, 0) normal (-1, 0, 0) x (0, 0, 1)
  line L0 (39.934, -37.0712) -> (39.934, -72.9288) projected
  line L1 (39.934, -72.9288) -> (42.0712, -75.066) projected
  line L2 (42.0712, -75.066) -> (77.9288, -75.066) projected
  line L3 (77.9288, -75.066) -> (80.066, -72.9288) projected
  line L4 (80.066, -72.9288) -> (80.066, -37.0712) projected
  line L5 (80.066, -37.0712) -> (77.9288, -34.934) projected
  line L6 (77.9288, -34.934) -> (42.0712, -34.934) projected
  line L7 (42.0712, -34.934) -> (39.934, -37.0712) projected
  circle A0 centre (75, -70) radius 3.2639 projected
  circle A1 centre (45, -70) radius 3.2639 projected
  circle A2 centre (75, -40) radius 3.2639 projected
  circle A3 centre (45, -40) radius 3.2639 projected
  circle A4 centre (60, -55) radius 13.3985 projected
  point P0 (0, -50)
hole "Bohrung3" at (284.488, -20, 75) at (284.488, -20, 45) at (284.488, 10, 45) at (284.488, 10, 75) direction (1, 0, 0) diameter 6.1 end through all
properties part number "OpenFrameAdapter_2"
